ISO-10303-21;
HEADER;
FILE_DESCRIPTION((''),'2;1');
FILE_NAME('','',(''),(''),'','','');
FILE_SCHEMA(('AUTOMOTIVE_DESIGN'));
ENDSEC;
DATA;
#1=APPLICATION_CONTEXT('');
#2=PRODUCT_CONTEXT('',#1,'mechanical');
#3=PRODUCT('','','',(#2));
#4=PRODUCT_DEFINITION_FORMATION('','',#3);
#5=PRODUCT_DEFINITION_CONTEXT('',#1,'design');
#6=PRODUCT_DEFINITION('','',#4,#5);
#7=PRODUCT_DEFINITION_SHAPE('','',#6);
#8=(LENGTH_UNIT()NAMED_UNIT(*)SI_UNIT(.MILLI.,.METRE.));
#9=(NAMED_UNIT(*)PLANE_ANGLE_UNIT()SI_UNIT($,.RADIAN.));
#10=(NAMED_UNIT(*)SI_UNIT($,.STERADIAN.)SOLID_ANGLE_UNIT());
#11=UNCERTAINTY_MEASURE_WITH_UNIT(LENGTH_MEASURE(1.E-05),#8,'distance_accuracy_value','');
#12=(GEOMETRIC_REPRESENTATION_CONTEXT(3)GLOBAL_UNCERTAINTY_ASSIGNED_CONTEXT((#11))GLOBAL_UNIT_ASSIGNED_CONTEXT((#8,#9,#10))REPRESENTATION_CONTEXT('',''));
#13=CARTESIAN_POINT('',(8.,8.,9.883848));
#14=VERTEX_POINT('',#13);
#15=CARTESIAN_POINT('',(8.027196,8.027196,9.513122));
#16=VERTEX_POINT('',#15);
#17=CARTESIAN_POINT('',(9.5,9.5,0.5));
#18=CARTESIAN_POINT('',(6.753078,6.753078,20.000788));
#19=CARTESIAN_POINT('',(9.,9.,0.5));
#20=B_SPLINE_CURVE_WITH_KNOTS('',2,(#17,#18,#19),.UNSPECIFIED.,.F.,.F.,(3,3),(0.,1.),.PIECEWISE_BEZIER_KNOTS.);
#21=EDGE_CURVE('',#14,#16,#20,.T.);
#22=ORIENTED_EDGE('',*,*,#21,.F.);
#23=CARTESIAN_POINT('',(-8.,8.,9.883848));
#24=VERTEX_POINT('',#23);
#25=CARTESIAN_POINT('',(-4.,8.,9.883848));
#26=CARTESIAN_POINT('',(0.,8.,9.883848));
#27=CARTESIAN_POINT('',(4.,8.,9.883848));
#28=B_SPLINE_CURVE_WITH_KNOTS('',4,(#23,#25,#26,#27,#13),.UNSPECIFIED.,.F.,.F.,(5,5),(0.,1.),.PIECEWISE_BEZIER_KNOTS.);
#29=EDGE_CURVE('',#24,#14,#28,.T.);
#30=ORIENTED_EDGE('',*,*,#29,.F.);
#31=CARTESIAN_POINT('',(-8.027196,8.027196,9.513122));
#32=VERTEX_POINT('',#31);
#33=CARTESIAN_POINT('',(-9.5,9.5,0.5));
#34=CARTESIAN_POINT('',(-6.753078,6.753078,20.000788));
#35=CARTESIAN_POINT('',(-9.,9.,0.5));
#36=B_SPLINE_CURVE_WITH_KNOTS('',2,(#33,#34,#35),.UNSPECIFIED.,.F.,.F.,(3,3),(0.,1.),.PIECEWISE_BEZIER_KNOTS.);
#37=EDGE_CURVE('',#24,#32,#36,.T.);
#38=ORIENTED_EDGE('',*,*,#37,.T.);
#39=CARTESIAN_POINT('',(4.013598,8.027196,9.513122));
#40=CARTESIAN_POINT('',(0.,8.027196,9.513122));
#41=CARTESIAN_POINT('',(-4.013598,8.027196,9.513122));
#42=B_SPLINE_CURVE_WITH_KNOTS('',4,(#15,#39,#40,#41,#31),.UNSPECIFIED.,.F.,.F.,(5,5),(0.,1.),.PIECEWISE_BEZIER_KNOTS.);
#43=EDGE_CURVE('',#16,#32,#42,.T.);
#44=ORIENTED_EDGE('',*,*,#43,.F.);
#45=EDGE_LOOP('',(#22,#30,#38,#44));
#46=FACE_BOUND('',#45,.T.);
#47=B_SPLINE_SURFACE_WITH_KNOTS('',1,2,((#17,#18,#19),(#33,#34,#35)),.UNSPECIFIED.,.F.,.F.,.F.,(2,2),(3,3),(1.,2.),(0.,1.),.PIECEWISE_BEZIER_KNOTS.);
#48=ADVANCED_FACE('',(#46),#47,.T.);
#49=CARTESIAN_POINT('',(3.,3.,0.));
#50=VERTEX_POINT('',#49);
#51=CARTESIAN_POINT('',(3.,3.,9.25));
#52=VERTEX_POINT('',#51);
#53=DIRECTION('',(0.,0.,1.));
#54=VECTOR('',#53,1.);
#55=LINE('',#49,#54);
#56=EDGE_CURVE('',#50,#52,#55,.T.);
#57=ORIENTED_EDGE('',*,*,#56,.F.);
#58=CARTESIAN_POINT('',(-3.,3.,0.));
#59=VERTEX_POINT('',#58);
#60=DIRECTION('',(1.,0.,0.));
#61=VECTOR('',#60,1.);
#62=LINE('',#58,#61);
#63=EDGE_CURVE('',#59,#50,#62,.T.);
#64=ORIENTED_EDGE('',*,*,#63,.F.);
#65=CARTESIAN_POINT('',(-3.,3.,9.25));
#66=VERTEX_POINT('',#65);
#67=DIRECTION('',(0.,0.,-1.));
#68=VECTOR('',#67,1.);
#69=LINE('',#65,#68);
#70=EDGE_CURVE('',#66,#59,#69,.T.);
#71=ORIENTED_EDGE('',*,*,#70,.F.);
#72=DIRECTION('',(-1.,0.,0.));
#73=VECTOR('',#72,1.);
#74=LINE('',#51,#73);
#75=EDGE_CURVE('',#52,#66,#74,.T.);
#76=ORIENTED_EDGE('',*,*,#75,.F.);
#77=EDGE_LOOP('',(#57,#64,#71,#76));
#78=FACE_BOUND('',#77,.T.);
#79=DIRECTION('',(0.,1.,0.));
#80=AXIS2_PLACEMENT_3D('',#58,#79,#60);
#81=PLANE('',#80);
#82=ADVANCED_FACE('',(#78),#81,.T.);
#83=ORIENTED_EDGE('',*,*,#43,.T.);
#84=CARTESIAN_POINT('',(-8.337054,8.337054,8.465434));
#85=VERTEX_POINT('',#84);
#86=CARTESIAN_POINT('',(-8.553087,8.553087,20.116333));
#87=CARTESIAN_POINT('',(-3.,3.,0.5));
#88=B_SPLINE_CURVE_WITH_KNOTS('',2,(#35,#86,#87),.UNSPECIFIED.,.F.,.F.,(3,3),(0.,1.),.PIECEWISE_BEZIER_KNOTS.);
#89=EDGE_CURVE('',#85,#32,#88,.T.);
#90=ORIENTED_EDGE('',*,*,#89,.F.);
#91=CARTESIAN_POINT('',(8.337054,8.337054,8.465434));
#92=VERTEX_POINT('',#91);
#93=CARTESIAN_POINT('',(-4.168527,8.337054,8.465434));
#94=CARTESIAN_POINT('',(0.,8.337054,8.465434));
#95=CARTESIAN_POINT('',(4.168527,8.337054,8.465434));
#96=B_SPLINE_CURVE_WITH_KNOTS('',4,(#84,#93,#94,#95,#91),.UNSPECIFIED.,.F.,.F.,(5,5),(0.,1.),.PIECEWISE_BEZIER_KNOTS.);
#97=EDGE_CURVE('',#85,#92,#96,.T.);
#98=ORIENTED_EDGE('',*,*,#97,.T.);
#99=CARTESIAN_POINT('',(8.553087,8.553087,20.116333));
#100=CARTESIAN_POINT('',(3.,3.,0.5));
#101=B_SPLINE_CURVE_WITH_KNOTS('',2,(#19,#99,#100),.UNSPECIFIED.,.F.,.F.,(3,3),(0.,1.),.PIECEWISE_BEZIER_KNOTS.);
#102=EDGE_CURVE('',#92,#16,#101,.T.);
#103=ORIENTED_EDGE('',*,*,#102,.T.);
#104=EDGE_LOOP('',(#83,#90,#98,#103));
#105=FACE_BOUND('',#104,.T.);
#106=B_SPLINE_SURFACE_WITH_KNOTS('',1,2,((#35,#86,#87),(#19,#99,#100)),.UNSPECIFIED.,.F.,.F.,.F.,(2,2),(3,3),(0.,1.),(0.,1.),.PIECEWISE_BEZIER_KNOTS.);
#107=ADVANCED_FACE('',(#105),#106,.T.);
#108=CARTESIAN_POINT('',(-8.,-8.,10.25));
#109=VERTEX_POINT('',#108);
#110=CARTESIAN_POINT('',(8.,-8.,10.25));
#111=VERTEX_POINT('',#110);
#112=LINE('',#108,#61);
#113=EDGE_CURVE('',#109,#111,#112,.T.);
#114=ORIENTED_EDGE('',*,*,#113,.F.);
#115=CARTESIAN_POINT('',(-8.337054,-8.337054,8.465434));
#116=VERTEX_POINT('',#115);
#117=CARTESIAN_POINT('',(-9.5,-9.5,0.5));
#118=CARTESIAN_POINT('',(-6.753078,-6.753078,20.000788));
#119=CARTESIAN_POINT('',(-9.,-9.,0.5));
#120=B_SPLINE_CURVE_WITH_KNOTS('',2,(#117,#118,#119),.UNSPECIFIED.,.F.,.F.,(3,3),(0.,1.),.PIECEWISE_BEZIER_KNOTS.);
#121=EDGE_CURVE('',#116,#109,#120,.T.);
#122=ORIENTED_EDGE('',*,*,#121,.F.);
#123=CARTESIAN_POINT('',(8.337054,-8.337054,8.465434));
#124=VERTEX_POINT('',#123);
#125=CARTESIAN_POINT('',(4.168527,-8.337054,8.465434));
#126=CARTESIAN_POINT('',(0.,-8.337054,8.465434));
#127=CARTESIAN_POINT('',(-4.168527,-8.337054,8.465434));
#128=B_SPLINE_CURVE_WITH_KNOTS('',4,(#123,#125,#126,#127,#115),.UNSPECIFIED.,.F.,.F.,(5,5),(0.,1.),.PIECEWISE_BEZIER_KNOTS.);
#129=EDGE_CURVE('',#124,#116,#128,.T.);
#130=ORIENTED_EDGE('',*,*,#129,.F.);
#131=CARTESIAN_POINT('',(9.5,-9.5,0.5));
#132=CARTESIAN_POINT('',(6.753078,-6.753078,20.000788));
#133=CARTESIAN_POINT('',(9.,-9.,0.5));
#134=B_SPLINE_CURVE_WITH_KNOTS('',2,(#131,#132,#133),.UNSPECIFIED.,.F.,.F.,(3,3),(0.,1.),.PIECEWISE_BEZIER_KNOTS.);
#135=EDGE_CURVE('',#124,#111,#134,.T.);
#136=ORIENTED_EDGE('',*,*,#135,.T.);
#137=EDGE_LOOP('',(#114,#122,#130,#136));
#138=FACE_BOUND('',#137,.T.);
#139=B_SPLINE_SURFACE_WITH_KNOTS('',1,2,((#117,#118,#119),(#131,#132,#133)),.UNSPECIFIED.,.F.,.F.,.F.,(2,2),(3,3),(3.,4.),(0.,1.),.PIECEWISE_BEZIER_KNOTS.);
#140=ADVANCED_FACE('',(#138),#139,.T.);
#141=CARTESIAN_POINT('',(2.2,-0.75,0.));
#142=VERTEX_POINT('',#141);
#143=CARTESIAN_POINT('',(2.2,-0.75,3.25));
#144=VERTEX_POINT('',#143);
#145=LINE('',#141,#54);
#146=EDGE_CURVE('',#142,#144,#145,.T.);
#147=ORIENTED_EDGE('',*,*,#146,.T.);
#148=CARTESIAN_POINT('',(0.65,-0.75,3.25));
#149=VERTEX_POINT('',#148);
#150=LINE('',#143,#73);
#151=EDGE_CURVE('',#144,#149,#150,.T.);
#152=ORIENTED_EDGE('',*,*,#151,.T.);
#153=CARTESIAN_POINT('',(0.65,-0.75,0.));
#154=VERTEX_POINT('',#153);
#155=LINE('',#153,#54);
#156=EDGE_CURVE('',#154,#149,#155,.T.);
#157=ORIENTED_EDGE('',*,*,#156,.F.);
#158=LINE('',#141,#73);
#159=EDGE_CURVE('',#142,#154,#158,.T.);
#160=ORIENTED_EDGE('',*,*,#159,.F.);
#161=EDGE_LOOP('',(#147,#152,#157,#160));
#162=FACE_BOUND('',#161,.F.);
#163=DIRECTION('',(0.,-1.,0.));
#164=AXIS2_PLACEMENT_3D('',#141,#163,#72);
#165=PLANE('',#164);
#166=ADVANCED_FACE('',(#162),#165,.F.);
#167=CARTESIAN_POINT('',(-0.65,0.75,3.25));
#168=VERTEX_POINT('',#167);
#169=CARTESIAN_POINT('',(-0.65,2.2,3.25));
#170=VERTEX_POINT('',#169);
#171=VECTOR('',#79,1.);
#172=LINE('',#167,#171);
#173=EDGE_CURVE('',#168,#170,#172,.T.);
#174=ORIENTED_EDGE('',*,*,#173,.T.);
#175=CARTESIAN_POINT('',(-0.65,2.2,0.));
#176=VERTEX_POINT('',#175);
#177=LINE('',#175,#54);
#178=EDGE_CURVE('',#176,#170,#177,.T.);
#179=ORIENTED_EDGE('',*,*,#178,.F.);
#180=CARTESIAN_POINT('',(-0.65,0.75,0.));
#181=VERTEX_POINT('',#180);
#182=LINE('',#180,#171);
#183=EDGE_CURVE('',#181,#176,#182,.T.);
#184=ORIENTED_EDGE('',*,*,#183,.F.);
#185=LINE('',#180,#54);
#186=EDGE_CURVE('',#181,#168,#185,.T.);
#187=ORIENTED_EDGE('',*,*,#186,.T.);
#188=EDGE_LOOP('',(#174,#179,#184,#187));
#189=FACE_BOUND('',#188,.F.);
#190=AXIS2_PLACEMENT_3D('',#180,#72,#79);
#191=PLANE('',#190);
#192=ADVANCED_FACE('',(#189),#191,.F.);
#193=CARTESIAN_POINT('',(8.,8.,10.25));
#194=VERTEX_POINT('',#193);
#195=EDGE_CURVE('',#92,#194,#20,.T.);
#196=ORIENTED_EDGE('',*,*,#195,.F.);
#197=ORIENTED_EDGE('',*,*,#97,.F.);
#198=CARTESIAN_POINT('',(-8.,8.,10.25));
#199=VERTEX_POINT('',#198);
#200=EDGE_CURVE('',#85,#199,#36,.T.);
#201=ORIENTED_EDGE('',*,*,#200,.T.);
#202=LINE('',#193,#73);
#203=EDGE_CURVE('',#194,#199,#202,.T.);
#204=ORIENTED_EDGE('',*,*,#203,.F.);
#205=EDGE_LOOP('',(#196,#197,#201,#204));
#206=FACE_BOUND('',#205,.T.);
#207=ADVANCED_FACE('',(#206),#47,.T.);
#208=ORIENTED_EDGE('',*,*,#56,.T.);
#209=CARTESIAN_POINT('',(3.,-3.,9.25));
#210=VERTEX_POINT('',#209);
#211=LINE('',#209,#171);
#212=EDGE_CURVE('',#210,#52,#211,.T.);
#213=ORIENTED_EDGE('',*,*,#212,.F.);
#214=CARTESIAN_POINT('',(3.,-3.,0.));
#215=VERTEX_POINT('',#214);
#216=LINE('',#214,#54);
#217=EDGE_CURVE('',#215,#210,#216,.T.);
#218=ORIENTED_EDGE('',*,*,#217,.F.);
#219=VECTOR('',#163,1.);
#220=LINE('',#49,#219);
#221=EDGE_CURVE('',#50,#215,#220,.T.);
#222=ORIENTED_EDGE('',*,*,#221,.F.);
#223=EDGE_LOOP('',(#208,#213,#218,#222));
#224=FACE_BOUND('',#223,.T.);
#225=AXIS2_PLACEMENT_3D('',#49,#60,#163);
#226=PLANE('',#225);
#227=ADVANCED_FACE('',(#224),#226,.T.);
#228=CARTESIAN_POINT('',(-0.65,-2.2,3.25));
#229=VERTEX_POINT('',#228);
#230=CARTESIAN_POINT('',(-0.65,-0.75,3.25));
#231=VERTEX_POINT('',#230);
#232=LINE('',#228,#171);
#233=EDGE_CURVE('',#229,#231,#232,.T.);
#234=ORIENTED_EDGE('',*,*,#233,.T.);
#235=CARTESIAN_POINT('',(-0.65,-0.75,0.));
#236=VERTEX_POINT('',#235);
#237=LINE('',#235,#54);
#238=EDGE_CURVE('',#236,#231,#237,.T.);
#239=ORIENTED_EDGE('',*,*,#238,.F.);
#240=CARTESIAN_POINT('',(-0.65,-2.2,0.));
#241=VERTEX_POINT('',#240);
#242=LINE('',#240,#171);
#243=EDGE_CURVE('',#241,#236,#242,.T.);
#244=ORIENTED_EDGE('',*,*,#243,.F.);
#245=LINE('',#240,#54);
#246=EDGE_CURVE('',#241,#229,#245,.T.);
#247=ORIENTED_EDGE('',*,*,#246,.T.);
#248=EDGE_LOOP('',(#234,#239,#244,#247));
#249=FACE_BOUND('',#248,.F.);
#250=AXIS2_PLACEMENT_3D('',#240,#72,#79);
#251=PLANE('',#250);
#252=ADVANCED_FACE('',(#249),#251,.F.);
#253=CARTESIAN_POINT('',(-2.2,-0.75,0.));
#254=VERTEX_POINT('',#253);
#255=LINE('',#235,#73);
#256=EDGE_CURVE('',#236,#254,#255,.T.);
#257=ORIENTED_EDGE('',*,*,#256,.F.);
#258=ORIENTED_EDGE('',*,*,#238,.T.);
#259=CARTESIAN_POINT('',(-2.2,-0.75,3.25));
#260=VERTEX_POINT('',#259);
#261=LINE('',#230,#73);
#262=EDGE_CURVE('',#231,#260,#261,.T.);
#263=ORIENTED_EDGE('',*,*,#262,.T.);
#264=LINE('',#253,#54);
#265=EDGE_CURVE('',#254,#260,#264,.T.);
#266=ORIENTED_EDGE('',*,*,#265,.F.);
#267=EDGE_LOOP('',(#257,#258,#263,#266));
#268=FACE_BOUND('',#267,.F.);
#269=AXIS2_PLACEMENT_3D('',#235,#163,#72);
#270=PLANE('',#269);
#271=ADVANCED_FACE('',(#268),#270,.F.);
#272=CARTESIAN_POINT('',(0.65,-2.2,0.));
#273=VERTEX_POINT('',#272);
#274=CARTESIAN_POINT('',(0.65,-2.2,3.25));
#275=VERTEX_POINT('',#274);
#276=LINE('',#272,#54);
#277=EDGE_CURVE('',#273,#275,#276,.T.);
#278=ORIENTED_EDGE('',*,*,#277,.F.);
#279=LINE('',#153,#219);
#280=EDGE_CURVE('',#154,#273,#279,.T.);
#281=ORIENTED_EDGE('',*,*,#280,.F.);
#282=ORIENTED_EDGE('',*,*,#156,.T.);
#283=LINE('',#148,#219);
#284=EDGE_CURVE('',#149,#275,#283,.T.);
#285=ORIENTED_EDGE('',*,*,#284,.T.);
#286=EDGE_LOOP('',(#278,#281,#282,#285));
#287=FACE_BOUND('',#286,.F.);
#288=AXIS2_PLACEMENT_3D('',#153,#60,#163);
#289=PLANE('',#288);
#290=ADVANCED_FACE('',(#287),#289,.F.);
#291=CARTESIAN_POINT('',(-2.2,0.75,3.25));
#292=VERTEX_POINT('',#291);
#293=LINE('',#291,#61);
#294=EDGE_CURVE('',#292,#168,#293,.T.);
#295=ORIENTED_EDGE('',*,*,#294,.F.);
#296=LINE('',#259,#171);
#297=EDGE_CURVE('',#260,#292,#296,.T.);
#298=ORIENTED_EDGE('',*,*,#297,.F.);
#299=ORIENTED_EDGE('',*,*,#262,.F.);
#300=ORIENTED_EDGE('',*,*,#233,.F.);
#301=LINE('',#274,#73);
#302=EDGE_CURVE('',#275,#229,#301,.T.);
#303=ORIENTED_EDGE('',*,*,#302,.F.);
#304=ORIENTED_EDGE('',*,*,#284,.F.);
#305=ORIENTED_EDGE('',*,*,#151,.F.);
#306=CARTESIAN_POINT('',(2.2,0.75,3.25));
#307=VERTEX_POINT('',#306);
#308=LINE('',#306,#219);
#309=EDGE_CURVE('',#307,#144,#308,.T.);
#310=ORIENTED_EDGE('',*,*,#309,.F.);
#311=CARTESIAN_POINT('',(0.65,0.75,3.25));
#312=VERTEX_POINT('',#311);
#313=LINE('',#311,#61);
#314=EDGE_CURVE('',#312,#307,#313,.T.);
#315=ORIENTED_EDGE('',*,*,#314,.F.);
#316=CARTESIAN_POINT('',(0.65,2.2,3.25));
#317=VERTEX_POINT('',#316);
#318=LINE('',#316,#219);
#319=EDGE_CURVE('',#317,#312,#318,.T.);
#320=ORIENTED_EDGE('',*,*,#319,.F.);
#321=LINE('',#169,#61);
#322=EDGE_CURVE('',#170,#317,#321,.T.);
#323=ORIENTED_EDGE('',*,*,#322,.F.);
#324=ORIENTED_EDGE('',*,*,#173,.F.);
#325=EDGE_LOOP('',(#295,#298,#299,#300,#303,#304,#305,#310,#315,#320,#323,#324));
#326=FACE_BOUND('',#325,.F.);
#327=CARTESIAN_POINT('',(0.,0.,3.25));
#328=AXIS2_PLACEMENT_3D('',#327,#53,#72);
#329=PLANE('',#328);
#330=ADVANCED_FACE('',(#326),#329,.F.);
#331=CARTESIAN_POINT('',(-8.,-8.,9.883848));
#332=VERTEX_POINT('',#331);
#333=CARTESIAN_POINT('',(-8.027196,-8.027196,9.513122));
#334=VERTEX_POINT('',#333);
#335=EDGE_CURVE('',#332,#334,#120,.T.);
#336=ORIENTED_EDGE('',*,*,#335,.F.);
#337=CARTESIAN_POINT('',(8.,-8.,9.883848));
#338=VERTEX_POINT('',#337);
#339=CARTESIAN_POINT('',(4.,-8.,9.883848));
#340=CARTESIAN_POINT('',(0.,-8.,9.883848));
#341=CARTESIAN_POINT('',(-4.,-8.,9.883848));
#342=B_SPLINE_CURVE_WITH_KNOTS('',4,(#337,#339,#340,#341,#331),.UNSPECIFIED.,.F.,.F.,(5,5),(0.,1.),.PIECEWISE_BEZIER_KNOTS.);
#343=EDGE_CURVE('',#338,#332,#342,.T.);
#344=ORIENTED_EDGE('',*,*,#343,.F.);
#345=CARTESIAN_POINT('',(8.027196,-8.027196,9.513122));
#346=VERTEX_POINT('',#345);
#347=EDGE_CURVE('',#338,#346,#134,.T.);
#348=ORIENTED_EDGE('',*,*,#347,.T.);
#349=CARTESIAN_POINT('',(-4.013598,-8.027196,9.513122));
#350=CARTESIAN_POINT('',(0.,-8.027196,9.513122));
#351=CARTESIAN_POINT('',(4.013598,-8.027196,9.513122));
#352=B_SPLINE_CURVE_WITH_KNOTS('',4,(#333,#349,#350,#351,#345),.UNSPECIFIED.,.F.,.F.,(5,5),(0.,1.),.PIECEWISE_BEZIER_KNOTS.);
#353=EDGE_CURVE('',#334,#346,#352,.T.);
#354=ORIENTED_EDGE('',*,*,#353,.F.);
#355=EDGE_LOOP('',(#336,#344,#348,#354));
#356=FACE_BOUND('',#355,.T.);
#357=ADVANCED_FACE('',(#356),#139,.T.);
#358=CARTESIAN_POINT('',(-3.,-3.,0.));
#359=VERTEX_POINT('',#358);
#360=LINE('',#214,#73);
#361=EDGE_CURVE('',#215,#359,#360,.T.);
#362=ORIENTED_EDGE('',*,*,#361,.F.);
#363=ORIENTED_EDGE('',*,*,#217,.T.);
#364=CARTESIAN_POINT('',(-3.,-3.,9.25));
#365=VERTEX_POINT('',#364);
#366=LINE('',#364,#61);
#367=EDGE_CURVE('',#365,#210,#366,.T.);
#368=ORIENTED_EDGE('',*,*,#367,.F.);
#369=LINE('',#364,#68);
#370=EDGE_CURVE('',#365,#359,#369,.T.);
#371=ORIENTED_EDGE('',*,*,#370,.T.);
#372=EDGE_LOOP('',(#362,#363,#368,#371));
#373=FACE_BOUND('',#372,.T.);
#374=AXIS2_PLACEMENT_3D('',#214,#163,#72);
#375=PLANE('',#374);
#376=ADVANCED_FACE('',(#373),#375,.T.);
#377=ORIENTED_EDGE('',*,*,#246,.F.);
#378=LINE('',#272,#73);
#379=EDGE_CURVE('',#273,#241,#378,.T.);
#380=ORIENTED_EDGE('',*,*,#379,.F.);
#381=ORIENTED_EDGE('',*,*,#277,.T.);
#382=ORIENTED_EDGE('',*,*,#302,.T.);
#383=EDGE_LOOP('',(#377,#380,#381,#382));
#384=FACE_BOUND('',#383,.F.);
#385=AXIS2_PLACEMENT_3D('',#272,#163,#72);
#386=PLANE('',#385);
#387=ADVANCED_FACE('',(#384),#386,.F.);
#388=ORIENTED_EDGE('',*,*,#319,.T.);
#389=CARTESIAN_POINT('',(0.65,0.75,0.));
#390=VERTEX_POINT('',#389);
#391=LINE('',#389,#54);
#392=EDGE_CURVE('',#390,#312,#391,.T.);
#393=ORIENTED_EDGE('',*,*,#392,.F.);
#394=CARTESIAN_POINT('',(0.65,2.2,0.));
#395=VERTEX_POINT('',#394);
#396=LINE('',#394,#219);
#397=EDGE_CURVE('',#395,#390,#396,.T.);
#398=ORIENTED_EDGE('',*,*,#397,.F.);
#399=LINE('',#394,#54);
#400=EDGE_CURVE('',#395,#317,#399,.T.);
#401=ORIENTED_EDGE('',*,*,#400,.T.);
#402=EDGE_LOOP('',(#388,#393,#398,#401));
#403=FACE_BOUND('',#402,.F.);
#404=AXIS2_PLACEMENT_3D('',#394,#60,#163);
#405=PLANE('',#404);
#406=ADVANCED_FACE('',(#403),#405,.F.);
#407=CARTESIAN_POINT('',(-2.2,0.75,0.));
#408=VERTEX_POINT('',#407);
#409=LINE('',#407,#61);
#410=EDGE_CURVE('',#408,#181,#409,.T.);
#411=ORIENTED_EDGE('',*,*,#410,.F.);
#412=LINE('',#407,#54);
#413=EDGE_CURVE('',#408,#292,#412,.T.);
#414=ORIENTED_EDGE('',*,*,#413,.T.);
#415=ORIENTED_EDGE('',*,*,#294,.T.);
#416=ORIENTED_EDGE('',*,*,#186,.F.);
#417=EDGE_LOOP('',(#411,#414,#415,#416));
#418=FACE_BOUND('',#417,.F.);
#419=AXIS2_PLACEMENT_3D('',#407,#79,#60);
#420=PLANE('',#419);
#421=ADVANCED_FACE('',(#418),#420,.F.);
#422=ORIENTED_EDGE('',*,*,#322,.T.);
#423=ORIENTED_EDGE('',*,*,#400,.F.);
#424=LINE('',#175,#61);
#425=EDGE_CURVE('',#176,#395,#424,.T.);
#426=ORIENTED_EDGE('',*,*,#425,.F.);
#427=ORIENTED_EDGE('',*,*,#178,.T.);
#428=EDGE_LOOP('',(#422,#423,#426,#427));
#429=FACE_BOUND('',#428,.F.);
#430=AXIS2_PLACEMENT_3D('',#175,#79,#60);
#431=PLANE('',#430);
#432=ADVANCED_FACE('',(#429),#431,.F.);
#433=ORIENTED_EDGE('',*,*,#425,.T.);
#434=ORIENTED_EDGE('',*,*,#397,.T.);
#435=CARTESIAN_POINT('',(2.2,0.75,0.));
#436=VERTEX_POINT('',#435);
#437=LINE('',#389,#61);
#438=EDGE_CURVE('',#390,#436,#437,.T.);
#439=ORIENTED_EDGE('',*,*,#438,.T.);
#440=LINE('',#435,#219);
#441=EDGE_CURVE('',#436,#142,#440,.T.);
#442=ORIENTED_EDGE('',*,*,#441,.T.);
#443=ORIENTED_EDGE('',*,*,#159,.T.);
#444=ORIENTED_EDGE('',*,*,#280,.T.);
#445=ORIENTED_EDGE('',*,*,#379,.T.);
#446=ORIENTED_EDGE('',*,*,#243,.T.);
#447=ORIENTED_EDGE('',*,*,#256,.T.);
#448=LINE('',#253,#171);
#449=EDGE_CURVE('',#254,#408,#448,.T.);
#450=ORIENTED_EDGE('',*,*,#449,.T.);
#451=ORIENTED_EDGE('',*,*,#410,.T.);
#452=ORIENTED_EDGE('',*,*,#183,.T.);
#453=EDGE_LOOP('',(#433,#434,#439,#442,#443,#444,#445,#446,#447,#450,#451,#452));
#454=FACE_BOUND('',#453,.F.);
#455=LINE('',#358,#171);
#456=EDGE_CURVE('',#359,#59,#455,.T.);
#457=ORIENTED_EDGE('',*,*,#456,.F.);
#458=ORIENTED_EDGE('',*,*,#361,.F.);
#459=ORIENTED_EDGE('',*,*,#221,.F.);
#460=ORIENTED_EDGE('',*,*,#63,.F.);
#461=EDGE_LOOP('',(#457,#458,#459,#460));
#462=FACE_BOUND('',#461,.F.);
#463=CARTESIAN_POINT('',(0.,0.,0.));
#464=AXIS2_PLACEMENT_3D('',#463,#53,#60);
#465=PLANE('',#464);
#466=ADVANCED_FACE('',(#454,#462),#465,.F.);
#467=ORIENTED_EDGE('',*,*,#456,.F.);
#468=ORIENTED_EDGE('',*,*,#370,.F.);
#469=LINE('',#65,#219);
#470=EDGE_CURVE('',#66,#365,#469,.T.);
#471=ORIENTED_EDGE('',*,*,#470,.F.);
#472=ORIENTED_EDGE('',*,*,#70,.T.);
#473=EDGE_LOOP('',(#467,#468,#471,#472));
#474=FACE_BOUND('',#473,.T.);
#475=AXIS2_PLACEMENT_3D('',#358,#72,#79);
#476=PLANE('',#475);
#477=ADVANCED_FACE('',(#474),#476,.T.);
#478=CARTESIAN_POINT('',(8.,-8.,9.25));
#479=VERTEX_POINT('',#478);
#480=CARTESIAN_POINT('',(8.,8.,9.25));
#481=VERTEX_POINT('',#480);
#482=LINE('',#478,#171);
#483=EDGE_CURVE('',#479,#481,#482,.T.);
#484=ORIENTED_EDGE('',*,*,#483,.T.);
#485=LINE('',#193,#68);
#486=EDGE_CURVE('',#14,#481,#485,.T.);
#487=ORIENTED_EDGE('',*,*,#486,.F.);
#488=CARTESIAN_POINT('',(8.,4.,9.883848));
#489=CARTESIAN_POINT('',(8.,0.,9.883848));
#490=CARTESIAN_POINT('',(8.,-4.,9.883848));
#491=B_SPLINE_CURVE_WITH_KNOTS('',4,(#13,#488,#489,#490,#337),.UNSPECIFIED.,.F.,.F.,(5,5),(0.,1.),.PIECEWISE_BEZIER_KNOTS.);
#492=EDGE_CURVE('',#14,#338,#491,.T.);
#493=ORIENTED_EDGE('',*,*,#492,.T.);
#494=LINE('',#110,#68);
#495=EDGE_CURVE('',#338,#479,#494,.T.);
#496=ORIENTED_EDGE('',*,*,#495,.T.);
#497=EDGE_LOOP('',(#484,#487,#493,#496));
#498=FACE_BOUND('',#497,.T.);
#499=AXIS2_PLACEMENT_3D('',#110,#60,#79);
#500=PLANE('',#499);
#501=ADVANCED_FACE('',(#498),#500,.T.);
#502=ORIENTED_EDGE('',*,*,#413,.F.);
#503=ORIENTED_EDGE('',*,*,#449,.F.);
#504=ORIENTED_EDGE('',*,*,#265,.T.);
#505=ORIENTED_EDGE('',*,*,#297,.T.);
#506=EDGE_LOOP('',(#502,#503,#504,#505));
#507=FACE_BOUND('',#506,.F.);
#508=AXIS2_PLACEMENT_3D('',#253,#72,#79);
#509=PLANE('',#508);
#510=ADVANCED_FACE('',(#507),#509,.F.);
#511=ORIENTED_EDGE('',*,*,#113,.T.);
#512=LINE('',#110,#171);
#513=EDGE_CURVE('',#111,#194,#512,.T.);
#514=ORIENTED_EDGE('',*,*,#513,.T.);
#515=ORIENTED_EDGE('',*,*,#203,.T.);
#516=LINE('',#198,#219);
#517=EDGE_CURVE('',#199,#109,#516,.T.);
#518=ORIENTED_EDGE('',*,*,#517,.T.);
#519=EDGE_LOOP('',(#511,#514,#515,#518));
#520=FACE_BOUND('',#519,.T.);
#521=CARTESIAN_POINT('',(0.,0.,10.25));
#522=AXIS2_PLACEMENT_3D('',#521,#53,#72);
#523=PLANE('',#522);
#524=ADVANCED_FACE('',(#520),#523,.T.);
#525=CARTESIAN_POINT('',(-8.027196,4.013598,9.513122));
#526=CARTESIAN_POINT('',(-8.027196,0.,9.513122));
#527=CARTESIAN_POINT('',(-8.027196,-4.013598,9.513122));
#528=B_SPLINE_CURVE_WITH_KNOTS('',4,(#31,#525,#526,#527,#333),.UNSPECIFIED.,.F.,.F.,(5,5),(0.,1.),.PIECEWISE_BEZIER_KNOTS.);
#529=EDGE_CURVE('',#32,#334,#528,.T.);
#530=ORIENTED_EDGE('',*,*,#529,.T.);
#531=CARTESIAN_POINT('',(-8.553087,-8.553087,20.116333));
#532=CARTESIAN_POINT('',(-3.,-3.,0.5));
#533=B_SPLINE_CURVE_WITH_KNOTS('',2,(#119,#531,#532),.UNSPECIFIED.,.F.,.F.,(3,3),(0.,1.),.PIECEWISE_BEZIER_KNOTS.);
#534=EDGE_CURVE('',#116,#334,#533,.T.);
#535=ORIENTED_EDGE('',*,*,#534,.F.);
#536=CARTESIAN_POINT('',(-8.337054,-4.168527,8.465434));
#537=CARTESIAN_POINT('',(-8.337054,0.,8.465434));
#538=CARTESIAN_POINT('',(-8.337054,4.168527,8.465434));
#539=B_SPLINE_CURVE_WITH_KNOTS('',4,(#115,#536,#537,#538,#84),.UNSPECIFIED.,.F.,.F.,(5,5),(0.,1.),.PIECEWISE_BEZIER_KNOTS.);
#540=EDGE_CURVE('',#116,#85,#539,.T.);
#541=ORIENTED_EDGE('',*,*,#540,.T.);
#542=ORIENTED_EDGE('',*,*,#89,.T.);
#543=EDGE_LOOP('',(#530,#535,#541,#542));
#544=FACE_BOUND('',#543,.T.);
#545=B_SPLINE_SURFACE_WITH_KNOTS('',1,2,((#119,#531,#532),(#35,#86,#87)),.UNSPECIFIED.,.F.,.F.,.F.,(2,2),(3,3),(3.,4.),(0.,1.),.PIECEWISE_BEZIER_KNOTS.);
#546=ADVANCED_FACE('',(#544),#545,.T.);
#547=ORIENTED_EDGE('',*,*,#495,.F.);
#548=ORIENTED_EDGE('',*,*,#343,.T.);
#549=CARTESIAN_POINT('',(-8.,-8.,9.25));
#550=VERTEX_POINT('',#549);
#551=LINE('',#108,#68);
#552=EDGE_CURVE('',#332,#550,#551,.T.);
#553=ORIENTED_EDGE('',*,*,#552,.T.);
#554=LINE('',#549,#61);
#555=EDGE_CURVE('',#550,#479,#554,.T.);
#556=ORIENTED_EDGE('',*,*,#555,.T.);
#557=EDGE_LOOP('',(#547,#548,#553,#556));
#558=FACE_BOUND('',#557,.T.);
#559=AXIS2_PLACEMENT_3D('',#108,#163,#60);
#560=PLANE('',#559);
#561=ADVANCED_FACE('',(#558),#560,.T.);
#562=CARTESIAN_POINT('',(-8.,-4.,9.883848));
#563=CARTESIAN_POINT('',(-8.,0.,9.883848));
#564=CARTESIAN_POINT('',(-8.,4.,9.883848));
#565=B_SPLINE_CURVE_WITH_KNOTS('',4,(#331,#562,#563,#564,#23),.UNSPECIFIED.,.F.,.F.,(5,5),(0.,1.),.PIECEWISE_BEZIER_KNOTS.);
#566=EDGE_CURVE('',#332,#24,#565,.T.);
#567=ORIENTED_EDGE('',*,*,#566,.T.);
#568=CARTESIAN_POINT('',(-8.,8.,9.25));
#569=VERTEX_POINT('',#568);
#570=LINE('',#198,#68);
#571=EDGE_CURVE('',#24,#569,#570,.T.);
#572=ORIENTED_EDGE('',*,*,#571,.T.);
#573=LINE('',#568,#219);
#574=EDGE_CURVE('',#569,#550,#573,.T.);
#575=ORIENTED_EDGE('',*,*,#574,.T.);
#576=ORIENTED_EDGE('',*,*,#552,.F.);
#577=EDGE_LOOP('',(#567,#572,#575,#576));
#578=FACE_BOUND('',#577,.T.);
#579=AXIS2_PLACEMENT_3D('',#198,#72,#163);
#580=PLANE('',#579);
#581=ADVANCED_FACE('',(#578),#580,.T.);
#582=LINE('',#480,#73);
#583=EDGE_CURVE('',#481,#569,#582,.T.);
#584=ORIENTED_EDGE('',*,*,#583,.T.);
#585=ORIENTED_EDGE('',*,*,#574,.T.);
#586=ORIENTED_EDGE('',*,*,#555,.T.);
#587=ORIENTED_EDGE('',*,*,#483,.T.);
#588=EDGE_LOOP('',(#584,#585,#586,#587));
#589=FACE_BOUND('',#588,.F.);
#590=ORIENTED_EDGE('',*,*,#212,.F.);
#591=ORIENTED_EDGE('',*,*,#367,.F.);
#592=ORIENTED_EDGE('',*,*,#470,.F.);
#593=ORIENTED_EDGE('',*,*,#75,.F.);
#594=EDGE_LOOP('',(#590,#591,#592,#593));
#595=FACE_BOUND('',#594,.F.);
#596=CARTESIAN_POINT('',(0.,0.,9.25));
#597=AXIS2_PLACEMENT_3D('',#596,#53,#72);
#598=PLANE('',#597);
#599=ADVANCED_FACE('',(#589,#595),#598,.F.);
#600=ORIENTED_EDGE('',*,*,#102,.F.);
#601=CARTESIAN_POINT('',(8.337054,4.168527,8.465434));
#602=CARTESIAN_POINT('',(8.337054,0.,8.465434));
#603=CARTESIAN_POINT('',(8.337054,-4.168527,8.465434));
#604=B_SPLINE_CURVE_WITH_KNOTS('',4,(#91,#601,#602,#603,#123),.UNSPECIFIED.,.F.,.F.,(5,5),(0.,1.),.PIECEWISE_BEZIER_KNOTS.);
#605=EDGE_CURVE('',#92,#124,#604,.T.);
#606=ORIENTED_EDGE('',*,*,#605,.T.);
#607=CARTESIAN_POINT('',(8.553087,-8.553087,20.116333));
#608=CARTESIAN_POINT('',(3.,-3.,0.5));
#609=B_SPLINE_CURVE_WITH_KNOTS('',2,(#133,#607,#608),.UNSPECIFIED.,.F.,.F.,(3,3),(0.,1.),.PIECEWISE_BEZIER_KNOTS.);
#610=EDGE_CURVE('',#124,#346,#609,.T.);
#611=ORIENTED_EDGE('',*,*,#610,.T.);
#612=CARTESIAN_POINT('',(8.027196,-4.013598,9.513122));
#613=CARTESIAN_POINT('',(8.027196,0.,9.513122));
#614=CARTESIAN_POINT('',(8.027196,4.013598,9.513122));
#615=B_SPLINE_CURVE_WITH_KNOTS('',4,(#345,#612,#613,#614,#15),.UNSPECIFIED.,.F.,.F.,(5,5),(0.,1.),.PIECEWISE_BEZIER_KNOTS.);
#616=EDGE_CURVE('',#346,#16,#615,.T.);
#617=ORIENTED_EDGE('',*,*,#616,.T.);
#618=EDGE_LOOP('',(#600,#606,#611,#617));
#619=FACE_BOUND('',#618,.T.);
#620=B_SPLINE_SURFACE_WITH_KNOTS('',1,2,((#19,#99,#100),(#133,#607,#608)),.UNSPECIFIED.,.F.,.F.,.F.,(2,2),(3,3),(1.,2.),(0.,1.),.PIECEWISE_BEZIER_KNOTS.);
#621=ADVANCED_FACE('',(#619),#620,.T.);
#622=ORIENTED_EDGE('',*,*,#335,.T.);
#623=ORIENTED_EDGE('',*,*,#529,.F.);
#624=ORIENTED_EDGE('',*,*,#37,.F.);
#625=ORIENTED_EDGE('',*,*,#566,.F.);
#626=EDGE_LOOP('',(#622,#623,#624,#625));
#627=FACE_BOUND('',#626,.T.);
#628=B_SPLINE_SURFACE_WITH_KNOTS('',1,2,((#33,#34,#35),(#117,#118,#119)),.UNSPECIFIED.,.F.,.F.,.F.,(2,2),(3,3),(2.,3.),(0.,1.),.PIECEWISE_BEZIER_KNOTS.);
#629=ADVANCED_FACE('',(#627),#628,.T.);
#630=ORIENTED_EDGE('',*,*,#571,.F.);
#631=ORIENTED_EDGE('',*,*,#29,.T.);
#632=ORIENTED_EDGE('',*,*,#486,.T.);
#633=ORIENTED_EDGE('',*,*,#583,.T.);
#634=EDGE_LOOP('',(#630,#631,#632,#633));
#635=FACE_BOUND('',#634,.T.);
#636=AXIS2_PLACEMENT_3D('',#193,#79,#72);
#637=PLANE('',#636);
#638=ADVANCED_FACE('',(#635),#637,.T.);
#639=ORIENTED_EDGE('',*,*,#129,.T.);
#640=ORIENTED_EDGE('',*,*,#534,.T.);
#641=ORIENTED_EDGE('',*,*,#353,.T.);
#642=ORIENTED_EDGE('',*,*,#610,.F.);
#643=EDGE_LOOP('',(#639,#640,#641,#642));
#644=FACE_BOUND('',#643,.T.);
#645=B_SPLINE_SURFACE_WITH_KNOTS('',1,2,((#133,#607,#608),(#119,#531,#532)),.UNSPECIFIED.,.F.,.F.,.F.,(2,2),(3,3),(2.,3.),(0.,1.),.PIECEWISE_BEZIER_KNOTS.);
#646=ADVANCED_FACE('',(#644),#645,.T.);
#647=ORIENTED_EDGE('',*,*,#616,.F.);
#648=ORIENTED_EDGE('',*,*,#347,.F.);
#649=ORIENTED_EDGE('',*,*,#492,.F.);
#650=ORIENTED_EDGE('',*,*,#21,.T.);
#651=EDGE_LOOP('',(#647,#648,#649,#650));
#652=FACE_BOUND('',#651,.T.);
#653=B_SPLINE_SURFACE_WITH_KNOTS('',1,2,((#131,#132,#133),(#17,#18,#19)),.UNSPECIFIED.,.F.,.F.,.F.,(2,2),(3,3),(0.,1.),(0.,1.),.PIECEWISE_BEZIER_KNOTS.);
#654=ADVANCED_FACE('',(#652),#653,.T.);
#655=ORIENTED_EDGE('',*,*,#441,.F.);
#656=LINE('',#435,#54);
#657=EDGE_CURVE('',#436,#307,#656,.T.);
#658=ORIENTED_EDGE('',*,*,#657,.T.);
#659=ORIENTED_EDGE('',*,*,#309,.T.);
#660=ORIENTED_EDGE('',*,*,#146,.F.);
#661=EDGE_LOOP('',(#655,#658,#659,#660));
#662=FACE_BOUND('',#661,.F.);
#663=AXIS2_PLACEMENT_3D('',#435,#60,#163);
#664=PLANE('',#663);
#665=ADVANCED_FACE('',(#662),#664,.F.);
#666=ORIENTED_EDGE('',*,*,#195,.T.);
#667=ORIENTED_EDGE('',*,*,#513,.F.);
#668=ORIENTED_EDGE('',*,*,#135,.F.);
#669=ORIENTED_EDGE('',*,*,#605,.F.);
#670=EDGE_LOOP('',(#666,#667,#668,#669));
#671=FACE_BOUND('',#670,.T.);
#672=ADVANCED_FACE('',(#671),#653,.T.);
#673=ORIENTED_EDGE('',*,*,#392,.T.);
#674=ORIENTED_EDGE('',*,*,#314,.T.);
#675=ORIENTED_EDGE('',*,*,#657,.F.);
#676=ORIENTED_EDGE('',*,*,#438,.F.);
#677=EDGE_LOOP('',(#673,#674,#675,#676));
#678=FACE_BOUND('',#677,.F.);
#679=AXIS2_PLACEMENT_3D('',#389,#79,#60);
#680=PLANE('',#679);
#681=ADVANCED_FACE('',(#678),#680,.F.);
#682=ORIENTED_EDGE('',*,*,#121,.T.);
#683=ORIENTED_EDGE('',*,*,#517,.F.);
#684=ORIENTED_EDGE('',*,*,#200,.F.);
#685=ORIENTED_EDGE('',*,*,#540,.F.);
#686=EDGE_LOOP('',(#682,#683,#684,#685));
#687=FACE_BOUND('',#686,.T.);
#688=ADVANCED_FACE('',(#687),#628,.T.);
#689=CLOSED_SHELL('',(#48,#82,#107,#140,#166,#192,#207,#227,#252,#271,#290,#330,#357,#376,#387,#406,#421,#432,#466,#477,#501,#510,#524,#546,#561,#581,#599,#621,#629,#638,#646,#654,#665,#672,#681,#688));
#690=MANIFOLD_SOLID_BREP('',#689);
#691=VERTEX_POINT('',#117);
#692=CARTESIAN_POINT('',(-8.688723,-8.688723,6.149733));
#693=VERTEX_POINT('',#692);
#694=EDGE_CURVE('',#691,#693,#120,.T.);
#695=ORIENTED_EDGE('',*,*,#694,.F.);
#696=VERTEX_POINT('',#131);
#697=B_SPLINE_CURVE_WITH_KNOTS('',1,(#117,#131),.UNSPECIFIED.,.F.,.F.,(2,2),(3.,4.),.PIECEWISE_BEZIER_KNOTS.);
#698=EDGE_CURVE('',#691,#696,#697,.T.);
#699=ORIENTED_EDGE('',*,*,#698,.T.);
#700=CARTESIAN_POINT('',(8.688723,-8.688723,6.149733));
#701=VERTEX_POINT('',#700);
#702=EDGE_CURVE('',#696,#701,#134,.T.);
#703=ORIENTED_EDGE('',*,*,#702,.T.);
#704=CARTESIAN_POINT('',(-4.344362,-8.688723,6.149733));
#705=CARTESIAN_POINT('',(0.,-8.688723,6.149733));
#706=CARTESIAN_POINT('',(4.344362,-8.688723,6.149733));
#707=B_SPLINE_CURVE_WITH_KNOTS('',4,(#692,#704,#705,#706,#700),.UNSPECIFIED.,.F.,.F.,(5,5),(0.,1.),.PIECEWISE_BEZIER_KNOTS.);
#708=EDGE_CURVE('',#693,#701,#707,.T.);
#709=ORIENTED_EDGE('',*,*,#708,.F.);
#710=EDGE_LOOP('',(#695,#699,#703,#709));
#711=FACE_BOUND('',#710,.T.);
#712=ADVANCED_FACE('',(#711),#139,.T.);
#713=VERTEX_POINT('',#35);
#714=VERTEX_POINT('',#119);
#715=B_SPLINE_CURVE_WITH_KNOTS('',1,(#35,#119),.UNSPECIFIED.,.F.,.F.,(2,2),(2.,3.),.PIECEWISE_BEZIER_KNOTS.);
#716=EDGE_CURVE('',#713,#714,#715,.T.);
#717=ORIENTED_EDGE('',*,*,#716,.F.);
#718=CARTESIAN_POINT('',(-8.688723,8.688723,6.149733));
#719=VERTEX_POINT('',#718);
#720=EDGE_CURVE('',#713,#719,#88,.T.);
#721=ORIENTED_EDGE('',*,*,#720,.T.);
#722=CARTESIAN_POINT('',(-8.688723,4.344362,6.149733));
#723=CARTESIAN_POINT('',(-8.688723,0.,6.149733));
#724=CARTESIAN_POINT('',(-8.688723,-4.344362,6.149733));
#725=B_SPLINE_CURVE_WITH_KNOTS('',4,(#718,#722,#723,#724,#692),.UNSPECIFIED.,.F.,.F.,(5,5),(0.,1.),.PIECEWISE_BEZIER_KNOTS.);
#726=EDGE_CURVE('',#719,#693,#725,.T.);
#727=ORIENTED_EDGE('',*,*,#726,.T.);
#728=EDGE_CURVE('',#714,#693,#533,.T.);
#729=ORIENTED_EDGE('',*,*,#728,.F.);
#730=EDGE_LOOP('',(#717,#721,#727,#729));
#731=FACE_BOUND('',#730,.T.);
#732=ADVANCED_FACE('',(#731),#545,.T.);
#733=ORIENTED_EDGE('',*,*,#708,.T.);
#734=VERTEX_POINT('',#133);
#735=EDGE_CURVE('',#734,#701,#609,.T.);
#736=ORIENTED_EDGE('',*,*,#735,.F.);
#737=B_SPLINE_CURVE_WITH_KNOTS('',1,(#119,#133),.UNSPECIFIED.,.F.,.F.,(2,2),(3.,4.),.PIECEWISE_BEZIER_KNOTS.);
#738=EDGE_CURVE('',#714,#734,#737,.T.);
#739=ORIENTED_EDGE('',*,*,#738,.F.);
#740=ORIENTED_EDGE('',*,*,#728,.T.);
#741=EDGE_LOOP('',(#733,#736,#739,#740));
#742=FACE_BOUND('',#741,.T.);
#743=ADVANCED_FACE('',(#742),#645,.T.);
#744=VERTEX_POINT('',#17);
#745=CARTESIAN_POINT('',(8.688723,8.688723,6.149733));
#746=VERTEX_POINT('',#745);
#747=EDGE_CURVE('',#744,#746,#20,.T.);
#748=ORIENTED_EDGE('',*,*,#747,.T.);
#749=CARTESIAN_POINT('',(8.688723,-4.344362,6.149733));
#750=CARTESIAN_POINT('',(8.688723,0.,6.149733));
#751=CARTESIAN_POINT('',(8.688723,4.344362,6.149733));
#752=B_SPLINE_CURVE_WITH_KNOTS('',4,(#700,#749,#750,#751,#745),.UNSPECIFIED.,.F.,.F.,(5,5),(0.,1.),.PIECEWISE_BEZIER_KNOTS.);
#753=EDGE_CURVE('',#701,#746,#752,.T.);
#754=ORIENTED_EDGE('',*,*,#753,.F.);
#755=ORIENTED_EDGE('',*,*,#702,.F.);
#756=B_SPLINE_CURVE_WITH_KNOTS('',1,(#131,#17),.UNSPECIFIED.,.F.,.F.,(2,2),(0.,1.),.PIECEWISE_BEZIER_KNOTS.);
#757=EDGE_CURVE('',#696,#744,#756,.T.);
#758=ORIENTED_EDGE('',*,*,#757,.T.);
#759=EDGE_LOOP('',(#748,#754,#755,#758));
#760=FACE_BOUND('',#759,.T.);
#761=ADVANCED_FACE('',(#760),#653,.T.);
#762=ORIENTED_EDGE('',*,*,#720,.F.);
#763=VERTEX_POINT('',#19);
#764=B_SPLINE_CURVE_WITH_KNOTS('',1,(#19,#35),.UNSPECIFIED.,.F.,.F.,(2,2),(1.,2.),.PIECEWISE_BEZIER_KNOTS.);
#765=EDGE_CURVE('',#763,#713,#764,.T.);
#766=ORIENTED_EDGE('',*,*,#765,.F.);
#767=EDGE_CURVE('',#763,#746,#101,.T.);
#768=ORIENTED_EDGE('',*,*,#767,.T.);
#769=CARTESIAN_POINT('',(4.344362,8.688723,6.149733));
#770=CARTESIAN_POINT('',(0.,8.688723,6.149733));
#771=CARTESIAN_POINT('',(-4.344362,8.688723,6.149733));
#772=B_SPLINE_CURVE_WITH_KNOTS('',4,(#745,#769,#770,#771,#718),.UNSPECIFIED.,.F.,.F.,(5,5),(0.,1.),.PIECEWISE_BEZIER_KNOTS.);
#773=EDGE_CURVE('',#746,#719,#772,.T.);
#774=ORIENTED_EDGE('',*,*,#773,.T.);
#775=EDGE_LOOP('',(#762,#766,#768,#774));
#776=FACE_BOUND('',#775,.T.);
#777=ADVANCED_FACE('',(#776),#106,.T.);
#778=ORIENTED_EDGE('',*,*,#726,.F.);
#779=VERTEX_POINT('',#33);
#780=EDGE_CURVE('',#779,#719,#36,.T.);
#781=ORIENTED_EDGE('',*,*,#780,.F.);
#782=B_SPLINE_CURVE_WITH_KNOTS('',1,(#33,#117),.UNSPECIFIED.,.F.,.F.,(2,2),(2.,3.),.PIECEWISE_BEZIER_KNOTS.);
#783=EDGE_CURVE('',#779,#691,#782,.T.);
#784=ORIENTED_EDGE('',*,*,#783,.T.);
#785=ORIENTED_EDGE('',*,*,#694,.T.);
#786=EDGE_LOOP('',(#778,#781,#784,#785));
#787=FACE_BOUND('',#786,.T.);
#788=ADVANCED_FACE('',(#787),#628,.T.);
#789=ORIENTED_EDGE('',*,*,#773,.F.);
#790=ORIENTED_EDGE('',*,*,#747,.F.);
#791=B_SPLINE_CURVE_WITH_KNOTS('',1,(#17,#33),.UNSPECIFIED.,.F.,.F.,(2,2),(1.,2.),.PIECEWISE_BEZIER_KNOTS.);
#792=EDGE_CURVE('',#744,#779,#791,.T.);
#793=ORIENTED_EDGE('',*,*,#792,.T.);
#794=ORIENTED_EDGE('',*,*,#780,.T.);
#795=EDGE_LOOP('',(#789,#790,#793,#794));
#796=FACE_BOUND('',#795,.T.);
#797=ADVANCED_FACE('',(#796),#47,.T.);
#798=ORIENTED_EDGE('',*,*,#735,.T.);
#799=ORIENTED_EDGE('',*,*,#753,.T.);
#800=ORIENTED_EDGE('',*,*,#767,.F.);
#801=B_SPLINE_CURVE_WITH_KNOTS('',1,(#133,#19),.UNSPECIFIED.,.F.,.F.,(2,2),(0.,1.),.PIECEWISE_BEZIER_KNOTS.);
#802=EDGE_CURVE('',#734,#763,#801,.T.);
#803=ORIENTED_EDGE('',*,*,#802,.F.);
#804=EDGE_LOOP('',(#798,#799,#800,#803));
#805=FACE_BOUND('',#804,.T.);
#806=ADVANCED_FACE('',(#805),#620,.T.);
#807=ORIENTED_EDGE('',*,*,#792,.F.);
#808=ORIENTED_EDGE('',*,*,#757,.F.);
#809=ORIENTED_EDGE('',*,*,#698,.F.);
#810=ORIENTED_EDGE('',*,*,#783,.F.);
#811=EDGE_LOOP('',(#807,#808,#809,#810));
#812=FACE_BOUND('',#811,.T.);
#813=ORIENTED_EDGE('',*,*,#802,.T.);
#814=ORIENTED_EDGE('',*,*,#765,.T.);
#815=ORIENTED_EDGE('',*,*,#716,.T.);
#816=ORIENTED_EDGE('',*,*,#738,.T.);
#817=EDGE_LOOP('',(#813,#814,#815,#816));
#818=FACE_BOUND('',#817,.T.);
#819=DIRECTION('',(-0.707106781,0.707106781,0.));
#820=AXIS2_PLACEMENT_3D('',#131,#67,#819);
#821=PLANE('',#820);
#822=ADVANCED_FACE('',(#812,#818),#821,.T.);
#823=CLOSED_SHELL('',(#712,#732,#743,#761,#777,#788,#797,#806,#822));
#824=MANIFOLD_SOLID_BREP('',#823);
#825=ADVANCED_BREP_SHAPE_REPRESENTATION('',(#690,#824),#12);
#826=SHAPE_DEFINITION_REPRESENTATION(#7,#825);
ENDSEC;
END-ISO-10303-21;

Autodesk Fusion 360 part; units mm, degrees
sketch "Boceto1" plane through (0, 0, 0) normal (0, 0, 1) x (1, 0, 0)
  line L0 (3, -3) -> (-3, -3)
  line L1 (-3, -3) -> (-3, 3)
  line L2 (-3, 3) -> (3, 3)
  line L3 (3, 3) -> (3, -3)
  line L4 (3, -3) -> (-3, 3) construction
  line L5 (-3, -3) -> (3, 3) construction
  line L6 (-2.1, 0) -> (2.1, 0) construction
  line L7 (0, -2.1) -> (0, 2.1) construction
  line L8 (-2.1, -0.65) -> (-2.1, 0.65) construction
  line L9 (-2.1, 0.65) -> (-0.55, 0.65) construction
  line L10 (-0.55, 0.65) -> (-0.55, 2.1) construction
  line L11 (-0.55, 2.1) -> (0.55, 2.1) construction
  line L12 (0.55, 2.1) -> (0.55, 0.65) construction
  line L13 (0.55, 0.65) -> (2.1, 0.65) construction
  line L14 (2.1, 0.65) -> (2.1, -0.65) construction
  line L15 (2.1, -0.65) -> (0.55, -0.65) construction
  line L16 (0.55, -0.65) -> (0.55, -2.1) construction
  line L17 (0.55, -2.1) -> (-0.55, -2.1) construction
  line L18 (-0.55, -2.1) -> (-0.55, -0.65) construction
  line L19 (-0.55, -0.65) -> (-2.1, -0.65) construction
  line L20 (-2.2, -0.75) -> (-2.2, 0.75)
  line L21 (-2.2, 0.75) -> (-0.65, 0.75)
  line L22 (-0.65, 0.75) -> (-0.65, 2.2)
  line L23 (-0.65, 2.2) -> (0.65, 2.2)
  line L24 (0.65, 2.2) -> (0.65, 0.75)
  line L25 (0.65, 0.75) -> (2.2, 0.75)
  line L26 (2.2, 0.75) -> (2.2, -0.75)
  line L27 (2.2, -0.75) -> (0.65, -0.75)
  line L28 (0.65, -0.75) -> (0.65, -2.2)
  line L29 (0.65, -2.2) -> (-0.65, -2.2)
  line L30 (-0.65, -2.2) -> (-0.65, -0.75)
  line L31 (-0.65, -0.75) -> (-2.2, -0.75)
  dimension "d2" = 6
  dimension "d3" = 6
  dimension "d4" = 4.2
  dimension "d5" = 1.1
  dimension "d6" = 1.3
  dimension "d7" = -0.1
extrude "Extruir1" add sketch "Boceto1" along normal blind 3.25 makes body 1
sketch "Boceto2" plane through (0, 0, 3.25) normal (0, 0, 1) x (-1, 0, 0)
  line L0 (0.65, 2.2) -> (0.65, 0.75)
  line L1 (0.65, 0.75) -> (2.2, 0.75)
  line L2 (2.2, 0.75) -> (2.2, -0.75)
  line L3 (2.2, -0.75) -> (0.65, -0.75)
  line L4 (0.65, -0.75) -> (0.65, -2.2)
  line L5 (0.65, -2.2) -> (-0.65, -2.2)
  line L6 (-0.65, -2.2) -> (-0.65, -0.75)
  line L7 (-0.65, -0.75) -> (-2.2, -0.75)
  line L8 (-2.2, -0.75) -> (-2.2, 0.75)
  line L9 (-2.2, 0.75) -> (-0.65, 0.75)
  line L10 (-0.65, 0.75) -> (-0.65, 2.2)
  line L11 (-0.65, 2.2) -> (0.65, 2.2)
  line L12 (-3, -3) -> (3, -3)
  line L13 (3, -3) -> (3, 3)
  line L14 (3, 3) -> (-3, 3)
  line L15 (-3, 3) -> (-3, -3)
  line L16 (3, -3) -> (-3, -3)
  line L17 (-3, -3) -> (-3, 3)
  line L18 (-3, 3) -> (3, 3)
  line L19 (3, 3) -> (3, -3)
extrude "Extruir2" add sketch "Boceto2" along normal blind 6 contours L0 L1 L2 L3 L4 L5 L6 L7 L8 L9 L10 L11 | L12 L13 L14 L15 L16 L17 L18 L19 bodies 1
ref_plane "PlanoDeObra3" through (0, 0, 10.25) normal (0, 0, 1) x (1, 0, 0)
sketch "Boceto5" plane through (0, 0, 10.25) normal (0, 0, 1) x (-1, 0, 0)
  line L0 (3, 3) -> (-3, 3)
  line L1 (-3, 3) -> (-3, -3)
  line L2 (-3, -3) -> (3, -3)
  line L3 (3, -3) -> (3, 3)
  line L4 (-8, -8) -> (8, -8)
  line L5 (8, -8) -> (8, 8)
  line L6 (8, 8) -> (-8, 8)
  line L7 (-8, 8) -> (-8, -8)
  line L8 (-8, -8) -> (8, 8) construction
  line L9 (8, -8) -> (-8, 8) construction
  line L10 (-7.5, -7.5) -> (7.5, -7.5)
  line L11 (7.5, -7.5) -> (7.5, 7.5)
  line L12 (7.5, 7.5) -> (-7.5, 7.5)
  line L13 (-7.5, 7.5) -> (-7.5, -7.5)
  line L14 (-7.5, -7.5) -> (7.5, 7.5) construction
  line L15 (7.5, -7.5) -> (-7.5, 7.5) construction
  dimension "d17" = 16
  dimension "d18" = 15
ref_plane "PlanoDeObra1" through (0, 0, 0.5) normal (0, 0, 1) x (1, 0, 0)
sketch "Boceto9" plane through (0, 0, 0.5) normal (0, 0, 1) x (1, 0, 0)
  line L0 (9.5, 9.5) -> (-9.5, 9.5)
  line L1 (-9.5, 9.5) -> (-9.5, -9.5)
  line L2 (-9.5, -9.5) -> (9.5, -9.5)
  line L3 (9.5, -9.5) -> (9.5, 9.5)
  line L4 (9.5, 9.5) -> (-9.5, -9.5) construction
  line L5 (-9.5, 9.5) -> (9.5, -9.5) construction
  line L6 (9, 9) -> (-9, 9)
  line L7 (-9, 9) -> (-9, -9)
  line L8 (-9, -9) -> (9, -9)
  line L9 (9, -9) -> (9, 9)
  line L10 (9, 9) -> (-9, -9) construction
  line L11 (-9, 9) -> (9, -9) construction
  line L12 (3, -3) -> (3, 3)
  line L13 (3, 3) -> (-3, 3)
  line L14 (-3, 3) -> (-3, -3)
  line L15 (-3, -3) -> (3, -3)
  dimension "d22" = 0.5
  dimension "d23" = 19
loft "Solevación1" add profiles "Boceto9", "Boceto5", "Boceto9" section 1 contours L0 L1 L2 L3 section 2 contours L4 L5 L6 L7 section 3 contours L6 L7 L8 L9 separate body makes body 2 at (-3.0651, -9.1953, 2.6509)
extrude "Extruir4" add sketch "Boceto5" against normal blind 1 contours L0 L1 L2 L3 | L4 L5 L6 L7 | L10 L11 L12 L13 bodies 1 2
